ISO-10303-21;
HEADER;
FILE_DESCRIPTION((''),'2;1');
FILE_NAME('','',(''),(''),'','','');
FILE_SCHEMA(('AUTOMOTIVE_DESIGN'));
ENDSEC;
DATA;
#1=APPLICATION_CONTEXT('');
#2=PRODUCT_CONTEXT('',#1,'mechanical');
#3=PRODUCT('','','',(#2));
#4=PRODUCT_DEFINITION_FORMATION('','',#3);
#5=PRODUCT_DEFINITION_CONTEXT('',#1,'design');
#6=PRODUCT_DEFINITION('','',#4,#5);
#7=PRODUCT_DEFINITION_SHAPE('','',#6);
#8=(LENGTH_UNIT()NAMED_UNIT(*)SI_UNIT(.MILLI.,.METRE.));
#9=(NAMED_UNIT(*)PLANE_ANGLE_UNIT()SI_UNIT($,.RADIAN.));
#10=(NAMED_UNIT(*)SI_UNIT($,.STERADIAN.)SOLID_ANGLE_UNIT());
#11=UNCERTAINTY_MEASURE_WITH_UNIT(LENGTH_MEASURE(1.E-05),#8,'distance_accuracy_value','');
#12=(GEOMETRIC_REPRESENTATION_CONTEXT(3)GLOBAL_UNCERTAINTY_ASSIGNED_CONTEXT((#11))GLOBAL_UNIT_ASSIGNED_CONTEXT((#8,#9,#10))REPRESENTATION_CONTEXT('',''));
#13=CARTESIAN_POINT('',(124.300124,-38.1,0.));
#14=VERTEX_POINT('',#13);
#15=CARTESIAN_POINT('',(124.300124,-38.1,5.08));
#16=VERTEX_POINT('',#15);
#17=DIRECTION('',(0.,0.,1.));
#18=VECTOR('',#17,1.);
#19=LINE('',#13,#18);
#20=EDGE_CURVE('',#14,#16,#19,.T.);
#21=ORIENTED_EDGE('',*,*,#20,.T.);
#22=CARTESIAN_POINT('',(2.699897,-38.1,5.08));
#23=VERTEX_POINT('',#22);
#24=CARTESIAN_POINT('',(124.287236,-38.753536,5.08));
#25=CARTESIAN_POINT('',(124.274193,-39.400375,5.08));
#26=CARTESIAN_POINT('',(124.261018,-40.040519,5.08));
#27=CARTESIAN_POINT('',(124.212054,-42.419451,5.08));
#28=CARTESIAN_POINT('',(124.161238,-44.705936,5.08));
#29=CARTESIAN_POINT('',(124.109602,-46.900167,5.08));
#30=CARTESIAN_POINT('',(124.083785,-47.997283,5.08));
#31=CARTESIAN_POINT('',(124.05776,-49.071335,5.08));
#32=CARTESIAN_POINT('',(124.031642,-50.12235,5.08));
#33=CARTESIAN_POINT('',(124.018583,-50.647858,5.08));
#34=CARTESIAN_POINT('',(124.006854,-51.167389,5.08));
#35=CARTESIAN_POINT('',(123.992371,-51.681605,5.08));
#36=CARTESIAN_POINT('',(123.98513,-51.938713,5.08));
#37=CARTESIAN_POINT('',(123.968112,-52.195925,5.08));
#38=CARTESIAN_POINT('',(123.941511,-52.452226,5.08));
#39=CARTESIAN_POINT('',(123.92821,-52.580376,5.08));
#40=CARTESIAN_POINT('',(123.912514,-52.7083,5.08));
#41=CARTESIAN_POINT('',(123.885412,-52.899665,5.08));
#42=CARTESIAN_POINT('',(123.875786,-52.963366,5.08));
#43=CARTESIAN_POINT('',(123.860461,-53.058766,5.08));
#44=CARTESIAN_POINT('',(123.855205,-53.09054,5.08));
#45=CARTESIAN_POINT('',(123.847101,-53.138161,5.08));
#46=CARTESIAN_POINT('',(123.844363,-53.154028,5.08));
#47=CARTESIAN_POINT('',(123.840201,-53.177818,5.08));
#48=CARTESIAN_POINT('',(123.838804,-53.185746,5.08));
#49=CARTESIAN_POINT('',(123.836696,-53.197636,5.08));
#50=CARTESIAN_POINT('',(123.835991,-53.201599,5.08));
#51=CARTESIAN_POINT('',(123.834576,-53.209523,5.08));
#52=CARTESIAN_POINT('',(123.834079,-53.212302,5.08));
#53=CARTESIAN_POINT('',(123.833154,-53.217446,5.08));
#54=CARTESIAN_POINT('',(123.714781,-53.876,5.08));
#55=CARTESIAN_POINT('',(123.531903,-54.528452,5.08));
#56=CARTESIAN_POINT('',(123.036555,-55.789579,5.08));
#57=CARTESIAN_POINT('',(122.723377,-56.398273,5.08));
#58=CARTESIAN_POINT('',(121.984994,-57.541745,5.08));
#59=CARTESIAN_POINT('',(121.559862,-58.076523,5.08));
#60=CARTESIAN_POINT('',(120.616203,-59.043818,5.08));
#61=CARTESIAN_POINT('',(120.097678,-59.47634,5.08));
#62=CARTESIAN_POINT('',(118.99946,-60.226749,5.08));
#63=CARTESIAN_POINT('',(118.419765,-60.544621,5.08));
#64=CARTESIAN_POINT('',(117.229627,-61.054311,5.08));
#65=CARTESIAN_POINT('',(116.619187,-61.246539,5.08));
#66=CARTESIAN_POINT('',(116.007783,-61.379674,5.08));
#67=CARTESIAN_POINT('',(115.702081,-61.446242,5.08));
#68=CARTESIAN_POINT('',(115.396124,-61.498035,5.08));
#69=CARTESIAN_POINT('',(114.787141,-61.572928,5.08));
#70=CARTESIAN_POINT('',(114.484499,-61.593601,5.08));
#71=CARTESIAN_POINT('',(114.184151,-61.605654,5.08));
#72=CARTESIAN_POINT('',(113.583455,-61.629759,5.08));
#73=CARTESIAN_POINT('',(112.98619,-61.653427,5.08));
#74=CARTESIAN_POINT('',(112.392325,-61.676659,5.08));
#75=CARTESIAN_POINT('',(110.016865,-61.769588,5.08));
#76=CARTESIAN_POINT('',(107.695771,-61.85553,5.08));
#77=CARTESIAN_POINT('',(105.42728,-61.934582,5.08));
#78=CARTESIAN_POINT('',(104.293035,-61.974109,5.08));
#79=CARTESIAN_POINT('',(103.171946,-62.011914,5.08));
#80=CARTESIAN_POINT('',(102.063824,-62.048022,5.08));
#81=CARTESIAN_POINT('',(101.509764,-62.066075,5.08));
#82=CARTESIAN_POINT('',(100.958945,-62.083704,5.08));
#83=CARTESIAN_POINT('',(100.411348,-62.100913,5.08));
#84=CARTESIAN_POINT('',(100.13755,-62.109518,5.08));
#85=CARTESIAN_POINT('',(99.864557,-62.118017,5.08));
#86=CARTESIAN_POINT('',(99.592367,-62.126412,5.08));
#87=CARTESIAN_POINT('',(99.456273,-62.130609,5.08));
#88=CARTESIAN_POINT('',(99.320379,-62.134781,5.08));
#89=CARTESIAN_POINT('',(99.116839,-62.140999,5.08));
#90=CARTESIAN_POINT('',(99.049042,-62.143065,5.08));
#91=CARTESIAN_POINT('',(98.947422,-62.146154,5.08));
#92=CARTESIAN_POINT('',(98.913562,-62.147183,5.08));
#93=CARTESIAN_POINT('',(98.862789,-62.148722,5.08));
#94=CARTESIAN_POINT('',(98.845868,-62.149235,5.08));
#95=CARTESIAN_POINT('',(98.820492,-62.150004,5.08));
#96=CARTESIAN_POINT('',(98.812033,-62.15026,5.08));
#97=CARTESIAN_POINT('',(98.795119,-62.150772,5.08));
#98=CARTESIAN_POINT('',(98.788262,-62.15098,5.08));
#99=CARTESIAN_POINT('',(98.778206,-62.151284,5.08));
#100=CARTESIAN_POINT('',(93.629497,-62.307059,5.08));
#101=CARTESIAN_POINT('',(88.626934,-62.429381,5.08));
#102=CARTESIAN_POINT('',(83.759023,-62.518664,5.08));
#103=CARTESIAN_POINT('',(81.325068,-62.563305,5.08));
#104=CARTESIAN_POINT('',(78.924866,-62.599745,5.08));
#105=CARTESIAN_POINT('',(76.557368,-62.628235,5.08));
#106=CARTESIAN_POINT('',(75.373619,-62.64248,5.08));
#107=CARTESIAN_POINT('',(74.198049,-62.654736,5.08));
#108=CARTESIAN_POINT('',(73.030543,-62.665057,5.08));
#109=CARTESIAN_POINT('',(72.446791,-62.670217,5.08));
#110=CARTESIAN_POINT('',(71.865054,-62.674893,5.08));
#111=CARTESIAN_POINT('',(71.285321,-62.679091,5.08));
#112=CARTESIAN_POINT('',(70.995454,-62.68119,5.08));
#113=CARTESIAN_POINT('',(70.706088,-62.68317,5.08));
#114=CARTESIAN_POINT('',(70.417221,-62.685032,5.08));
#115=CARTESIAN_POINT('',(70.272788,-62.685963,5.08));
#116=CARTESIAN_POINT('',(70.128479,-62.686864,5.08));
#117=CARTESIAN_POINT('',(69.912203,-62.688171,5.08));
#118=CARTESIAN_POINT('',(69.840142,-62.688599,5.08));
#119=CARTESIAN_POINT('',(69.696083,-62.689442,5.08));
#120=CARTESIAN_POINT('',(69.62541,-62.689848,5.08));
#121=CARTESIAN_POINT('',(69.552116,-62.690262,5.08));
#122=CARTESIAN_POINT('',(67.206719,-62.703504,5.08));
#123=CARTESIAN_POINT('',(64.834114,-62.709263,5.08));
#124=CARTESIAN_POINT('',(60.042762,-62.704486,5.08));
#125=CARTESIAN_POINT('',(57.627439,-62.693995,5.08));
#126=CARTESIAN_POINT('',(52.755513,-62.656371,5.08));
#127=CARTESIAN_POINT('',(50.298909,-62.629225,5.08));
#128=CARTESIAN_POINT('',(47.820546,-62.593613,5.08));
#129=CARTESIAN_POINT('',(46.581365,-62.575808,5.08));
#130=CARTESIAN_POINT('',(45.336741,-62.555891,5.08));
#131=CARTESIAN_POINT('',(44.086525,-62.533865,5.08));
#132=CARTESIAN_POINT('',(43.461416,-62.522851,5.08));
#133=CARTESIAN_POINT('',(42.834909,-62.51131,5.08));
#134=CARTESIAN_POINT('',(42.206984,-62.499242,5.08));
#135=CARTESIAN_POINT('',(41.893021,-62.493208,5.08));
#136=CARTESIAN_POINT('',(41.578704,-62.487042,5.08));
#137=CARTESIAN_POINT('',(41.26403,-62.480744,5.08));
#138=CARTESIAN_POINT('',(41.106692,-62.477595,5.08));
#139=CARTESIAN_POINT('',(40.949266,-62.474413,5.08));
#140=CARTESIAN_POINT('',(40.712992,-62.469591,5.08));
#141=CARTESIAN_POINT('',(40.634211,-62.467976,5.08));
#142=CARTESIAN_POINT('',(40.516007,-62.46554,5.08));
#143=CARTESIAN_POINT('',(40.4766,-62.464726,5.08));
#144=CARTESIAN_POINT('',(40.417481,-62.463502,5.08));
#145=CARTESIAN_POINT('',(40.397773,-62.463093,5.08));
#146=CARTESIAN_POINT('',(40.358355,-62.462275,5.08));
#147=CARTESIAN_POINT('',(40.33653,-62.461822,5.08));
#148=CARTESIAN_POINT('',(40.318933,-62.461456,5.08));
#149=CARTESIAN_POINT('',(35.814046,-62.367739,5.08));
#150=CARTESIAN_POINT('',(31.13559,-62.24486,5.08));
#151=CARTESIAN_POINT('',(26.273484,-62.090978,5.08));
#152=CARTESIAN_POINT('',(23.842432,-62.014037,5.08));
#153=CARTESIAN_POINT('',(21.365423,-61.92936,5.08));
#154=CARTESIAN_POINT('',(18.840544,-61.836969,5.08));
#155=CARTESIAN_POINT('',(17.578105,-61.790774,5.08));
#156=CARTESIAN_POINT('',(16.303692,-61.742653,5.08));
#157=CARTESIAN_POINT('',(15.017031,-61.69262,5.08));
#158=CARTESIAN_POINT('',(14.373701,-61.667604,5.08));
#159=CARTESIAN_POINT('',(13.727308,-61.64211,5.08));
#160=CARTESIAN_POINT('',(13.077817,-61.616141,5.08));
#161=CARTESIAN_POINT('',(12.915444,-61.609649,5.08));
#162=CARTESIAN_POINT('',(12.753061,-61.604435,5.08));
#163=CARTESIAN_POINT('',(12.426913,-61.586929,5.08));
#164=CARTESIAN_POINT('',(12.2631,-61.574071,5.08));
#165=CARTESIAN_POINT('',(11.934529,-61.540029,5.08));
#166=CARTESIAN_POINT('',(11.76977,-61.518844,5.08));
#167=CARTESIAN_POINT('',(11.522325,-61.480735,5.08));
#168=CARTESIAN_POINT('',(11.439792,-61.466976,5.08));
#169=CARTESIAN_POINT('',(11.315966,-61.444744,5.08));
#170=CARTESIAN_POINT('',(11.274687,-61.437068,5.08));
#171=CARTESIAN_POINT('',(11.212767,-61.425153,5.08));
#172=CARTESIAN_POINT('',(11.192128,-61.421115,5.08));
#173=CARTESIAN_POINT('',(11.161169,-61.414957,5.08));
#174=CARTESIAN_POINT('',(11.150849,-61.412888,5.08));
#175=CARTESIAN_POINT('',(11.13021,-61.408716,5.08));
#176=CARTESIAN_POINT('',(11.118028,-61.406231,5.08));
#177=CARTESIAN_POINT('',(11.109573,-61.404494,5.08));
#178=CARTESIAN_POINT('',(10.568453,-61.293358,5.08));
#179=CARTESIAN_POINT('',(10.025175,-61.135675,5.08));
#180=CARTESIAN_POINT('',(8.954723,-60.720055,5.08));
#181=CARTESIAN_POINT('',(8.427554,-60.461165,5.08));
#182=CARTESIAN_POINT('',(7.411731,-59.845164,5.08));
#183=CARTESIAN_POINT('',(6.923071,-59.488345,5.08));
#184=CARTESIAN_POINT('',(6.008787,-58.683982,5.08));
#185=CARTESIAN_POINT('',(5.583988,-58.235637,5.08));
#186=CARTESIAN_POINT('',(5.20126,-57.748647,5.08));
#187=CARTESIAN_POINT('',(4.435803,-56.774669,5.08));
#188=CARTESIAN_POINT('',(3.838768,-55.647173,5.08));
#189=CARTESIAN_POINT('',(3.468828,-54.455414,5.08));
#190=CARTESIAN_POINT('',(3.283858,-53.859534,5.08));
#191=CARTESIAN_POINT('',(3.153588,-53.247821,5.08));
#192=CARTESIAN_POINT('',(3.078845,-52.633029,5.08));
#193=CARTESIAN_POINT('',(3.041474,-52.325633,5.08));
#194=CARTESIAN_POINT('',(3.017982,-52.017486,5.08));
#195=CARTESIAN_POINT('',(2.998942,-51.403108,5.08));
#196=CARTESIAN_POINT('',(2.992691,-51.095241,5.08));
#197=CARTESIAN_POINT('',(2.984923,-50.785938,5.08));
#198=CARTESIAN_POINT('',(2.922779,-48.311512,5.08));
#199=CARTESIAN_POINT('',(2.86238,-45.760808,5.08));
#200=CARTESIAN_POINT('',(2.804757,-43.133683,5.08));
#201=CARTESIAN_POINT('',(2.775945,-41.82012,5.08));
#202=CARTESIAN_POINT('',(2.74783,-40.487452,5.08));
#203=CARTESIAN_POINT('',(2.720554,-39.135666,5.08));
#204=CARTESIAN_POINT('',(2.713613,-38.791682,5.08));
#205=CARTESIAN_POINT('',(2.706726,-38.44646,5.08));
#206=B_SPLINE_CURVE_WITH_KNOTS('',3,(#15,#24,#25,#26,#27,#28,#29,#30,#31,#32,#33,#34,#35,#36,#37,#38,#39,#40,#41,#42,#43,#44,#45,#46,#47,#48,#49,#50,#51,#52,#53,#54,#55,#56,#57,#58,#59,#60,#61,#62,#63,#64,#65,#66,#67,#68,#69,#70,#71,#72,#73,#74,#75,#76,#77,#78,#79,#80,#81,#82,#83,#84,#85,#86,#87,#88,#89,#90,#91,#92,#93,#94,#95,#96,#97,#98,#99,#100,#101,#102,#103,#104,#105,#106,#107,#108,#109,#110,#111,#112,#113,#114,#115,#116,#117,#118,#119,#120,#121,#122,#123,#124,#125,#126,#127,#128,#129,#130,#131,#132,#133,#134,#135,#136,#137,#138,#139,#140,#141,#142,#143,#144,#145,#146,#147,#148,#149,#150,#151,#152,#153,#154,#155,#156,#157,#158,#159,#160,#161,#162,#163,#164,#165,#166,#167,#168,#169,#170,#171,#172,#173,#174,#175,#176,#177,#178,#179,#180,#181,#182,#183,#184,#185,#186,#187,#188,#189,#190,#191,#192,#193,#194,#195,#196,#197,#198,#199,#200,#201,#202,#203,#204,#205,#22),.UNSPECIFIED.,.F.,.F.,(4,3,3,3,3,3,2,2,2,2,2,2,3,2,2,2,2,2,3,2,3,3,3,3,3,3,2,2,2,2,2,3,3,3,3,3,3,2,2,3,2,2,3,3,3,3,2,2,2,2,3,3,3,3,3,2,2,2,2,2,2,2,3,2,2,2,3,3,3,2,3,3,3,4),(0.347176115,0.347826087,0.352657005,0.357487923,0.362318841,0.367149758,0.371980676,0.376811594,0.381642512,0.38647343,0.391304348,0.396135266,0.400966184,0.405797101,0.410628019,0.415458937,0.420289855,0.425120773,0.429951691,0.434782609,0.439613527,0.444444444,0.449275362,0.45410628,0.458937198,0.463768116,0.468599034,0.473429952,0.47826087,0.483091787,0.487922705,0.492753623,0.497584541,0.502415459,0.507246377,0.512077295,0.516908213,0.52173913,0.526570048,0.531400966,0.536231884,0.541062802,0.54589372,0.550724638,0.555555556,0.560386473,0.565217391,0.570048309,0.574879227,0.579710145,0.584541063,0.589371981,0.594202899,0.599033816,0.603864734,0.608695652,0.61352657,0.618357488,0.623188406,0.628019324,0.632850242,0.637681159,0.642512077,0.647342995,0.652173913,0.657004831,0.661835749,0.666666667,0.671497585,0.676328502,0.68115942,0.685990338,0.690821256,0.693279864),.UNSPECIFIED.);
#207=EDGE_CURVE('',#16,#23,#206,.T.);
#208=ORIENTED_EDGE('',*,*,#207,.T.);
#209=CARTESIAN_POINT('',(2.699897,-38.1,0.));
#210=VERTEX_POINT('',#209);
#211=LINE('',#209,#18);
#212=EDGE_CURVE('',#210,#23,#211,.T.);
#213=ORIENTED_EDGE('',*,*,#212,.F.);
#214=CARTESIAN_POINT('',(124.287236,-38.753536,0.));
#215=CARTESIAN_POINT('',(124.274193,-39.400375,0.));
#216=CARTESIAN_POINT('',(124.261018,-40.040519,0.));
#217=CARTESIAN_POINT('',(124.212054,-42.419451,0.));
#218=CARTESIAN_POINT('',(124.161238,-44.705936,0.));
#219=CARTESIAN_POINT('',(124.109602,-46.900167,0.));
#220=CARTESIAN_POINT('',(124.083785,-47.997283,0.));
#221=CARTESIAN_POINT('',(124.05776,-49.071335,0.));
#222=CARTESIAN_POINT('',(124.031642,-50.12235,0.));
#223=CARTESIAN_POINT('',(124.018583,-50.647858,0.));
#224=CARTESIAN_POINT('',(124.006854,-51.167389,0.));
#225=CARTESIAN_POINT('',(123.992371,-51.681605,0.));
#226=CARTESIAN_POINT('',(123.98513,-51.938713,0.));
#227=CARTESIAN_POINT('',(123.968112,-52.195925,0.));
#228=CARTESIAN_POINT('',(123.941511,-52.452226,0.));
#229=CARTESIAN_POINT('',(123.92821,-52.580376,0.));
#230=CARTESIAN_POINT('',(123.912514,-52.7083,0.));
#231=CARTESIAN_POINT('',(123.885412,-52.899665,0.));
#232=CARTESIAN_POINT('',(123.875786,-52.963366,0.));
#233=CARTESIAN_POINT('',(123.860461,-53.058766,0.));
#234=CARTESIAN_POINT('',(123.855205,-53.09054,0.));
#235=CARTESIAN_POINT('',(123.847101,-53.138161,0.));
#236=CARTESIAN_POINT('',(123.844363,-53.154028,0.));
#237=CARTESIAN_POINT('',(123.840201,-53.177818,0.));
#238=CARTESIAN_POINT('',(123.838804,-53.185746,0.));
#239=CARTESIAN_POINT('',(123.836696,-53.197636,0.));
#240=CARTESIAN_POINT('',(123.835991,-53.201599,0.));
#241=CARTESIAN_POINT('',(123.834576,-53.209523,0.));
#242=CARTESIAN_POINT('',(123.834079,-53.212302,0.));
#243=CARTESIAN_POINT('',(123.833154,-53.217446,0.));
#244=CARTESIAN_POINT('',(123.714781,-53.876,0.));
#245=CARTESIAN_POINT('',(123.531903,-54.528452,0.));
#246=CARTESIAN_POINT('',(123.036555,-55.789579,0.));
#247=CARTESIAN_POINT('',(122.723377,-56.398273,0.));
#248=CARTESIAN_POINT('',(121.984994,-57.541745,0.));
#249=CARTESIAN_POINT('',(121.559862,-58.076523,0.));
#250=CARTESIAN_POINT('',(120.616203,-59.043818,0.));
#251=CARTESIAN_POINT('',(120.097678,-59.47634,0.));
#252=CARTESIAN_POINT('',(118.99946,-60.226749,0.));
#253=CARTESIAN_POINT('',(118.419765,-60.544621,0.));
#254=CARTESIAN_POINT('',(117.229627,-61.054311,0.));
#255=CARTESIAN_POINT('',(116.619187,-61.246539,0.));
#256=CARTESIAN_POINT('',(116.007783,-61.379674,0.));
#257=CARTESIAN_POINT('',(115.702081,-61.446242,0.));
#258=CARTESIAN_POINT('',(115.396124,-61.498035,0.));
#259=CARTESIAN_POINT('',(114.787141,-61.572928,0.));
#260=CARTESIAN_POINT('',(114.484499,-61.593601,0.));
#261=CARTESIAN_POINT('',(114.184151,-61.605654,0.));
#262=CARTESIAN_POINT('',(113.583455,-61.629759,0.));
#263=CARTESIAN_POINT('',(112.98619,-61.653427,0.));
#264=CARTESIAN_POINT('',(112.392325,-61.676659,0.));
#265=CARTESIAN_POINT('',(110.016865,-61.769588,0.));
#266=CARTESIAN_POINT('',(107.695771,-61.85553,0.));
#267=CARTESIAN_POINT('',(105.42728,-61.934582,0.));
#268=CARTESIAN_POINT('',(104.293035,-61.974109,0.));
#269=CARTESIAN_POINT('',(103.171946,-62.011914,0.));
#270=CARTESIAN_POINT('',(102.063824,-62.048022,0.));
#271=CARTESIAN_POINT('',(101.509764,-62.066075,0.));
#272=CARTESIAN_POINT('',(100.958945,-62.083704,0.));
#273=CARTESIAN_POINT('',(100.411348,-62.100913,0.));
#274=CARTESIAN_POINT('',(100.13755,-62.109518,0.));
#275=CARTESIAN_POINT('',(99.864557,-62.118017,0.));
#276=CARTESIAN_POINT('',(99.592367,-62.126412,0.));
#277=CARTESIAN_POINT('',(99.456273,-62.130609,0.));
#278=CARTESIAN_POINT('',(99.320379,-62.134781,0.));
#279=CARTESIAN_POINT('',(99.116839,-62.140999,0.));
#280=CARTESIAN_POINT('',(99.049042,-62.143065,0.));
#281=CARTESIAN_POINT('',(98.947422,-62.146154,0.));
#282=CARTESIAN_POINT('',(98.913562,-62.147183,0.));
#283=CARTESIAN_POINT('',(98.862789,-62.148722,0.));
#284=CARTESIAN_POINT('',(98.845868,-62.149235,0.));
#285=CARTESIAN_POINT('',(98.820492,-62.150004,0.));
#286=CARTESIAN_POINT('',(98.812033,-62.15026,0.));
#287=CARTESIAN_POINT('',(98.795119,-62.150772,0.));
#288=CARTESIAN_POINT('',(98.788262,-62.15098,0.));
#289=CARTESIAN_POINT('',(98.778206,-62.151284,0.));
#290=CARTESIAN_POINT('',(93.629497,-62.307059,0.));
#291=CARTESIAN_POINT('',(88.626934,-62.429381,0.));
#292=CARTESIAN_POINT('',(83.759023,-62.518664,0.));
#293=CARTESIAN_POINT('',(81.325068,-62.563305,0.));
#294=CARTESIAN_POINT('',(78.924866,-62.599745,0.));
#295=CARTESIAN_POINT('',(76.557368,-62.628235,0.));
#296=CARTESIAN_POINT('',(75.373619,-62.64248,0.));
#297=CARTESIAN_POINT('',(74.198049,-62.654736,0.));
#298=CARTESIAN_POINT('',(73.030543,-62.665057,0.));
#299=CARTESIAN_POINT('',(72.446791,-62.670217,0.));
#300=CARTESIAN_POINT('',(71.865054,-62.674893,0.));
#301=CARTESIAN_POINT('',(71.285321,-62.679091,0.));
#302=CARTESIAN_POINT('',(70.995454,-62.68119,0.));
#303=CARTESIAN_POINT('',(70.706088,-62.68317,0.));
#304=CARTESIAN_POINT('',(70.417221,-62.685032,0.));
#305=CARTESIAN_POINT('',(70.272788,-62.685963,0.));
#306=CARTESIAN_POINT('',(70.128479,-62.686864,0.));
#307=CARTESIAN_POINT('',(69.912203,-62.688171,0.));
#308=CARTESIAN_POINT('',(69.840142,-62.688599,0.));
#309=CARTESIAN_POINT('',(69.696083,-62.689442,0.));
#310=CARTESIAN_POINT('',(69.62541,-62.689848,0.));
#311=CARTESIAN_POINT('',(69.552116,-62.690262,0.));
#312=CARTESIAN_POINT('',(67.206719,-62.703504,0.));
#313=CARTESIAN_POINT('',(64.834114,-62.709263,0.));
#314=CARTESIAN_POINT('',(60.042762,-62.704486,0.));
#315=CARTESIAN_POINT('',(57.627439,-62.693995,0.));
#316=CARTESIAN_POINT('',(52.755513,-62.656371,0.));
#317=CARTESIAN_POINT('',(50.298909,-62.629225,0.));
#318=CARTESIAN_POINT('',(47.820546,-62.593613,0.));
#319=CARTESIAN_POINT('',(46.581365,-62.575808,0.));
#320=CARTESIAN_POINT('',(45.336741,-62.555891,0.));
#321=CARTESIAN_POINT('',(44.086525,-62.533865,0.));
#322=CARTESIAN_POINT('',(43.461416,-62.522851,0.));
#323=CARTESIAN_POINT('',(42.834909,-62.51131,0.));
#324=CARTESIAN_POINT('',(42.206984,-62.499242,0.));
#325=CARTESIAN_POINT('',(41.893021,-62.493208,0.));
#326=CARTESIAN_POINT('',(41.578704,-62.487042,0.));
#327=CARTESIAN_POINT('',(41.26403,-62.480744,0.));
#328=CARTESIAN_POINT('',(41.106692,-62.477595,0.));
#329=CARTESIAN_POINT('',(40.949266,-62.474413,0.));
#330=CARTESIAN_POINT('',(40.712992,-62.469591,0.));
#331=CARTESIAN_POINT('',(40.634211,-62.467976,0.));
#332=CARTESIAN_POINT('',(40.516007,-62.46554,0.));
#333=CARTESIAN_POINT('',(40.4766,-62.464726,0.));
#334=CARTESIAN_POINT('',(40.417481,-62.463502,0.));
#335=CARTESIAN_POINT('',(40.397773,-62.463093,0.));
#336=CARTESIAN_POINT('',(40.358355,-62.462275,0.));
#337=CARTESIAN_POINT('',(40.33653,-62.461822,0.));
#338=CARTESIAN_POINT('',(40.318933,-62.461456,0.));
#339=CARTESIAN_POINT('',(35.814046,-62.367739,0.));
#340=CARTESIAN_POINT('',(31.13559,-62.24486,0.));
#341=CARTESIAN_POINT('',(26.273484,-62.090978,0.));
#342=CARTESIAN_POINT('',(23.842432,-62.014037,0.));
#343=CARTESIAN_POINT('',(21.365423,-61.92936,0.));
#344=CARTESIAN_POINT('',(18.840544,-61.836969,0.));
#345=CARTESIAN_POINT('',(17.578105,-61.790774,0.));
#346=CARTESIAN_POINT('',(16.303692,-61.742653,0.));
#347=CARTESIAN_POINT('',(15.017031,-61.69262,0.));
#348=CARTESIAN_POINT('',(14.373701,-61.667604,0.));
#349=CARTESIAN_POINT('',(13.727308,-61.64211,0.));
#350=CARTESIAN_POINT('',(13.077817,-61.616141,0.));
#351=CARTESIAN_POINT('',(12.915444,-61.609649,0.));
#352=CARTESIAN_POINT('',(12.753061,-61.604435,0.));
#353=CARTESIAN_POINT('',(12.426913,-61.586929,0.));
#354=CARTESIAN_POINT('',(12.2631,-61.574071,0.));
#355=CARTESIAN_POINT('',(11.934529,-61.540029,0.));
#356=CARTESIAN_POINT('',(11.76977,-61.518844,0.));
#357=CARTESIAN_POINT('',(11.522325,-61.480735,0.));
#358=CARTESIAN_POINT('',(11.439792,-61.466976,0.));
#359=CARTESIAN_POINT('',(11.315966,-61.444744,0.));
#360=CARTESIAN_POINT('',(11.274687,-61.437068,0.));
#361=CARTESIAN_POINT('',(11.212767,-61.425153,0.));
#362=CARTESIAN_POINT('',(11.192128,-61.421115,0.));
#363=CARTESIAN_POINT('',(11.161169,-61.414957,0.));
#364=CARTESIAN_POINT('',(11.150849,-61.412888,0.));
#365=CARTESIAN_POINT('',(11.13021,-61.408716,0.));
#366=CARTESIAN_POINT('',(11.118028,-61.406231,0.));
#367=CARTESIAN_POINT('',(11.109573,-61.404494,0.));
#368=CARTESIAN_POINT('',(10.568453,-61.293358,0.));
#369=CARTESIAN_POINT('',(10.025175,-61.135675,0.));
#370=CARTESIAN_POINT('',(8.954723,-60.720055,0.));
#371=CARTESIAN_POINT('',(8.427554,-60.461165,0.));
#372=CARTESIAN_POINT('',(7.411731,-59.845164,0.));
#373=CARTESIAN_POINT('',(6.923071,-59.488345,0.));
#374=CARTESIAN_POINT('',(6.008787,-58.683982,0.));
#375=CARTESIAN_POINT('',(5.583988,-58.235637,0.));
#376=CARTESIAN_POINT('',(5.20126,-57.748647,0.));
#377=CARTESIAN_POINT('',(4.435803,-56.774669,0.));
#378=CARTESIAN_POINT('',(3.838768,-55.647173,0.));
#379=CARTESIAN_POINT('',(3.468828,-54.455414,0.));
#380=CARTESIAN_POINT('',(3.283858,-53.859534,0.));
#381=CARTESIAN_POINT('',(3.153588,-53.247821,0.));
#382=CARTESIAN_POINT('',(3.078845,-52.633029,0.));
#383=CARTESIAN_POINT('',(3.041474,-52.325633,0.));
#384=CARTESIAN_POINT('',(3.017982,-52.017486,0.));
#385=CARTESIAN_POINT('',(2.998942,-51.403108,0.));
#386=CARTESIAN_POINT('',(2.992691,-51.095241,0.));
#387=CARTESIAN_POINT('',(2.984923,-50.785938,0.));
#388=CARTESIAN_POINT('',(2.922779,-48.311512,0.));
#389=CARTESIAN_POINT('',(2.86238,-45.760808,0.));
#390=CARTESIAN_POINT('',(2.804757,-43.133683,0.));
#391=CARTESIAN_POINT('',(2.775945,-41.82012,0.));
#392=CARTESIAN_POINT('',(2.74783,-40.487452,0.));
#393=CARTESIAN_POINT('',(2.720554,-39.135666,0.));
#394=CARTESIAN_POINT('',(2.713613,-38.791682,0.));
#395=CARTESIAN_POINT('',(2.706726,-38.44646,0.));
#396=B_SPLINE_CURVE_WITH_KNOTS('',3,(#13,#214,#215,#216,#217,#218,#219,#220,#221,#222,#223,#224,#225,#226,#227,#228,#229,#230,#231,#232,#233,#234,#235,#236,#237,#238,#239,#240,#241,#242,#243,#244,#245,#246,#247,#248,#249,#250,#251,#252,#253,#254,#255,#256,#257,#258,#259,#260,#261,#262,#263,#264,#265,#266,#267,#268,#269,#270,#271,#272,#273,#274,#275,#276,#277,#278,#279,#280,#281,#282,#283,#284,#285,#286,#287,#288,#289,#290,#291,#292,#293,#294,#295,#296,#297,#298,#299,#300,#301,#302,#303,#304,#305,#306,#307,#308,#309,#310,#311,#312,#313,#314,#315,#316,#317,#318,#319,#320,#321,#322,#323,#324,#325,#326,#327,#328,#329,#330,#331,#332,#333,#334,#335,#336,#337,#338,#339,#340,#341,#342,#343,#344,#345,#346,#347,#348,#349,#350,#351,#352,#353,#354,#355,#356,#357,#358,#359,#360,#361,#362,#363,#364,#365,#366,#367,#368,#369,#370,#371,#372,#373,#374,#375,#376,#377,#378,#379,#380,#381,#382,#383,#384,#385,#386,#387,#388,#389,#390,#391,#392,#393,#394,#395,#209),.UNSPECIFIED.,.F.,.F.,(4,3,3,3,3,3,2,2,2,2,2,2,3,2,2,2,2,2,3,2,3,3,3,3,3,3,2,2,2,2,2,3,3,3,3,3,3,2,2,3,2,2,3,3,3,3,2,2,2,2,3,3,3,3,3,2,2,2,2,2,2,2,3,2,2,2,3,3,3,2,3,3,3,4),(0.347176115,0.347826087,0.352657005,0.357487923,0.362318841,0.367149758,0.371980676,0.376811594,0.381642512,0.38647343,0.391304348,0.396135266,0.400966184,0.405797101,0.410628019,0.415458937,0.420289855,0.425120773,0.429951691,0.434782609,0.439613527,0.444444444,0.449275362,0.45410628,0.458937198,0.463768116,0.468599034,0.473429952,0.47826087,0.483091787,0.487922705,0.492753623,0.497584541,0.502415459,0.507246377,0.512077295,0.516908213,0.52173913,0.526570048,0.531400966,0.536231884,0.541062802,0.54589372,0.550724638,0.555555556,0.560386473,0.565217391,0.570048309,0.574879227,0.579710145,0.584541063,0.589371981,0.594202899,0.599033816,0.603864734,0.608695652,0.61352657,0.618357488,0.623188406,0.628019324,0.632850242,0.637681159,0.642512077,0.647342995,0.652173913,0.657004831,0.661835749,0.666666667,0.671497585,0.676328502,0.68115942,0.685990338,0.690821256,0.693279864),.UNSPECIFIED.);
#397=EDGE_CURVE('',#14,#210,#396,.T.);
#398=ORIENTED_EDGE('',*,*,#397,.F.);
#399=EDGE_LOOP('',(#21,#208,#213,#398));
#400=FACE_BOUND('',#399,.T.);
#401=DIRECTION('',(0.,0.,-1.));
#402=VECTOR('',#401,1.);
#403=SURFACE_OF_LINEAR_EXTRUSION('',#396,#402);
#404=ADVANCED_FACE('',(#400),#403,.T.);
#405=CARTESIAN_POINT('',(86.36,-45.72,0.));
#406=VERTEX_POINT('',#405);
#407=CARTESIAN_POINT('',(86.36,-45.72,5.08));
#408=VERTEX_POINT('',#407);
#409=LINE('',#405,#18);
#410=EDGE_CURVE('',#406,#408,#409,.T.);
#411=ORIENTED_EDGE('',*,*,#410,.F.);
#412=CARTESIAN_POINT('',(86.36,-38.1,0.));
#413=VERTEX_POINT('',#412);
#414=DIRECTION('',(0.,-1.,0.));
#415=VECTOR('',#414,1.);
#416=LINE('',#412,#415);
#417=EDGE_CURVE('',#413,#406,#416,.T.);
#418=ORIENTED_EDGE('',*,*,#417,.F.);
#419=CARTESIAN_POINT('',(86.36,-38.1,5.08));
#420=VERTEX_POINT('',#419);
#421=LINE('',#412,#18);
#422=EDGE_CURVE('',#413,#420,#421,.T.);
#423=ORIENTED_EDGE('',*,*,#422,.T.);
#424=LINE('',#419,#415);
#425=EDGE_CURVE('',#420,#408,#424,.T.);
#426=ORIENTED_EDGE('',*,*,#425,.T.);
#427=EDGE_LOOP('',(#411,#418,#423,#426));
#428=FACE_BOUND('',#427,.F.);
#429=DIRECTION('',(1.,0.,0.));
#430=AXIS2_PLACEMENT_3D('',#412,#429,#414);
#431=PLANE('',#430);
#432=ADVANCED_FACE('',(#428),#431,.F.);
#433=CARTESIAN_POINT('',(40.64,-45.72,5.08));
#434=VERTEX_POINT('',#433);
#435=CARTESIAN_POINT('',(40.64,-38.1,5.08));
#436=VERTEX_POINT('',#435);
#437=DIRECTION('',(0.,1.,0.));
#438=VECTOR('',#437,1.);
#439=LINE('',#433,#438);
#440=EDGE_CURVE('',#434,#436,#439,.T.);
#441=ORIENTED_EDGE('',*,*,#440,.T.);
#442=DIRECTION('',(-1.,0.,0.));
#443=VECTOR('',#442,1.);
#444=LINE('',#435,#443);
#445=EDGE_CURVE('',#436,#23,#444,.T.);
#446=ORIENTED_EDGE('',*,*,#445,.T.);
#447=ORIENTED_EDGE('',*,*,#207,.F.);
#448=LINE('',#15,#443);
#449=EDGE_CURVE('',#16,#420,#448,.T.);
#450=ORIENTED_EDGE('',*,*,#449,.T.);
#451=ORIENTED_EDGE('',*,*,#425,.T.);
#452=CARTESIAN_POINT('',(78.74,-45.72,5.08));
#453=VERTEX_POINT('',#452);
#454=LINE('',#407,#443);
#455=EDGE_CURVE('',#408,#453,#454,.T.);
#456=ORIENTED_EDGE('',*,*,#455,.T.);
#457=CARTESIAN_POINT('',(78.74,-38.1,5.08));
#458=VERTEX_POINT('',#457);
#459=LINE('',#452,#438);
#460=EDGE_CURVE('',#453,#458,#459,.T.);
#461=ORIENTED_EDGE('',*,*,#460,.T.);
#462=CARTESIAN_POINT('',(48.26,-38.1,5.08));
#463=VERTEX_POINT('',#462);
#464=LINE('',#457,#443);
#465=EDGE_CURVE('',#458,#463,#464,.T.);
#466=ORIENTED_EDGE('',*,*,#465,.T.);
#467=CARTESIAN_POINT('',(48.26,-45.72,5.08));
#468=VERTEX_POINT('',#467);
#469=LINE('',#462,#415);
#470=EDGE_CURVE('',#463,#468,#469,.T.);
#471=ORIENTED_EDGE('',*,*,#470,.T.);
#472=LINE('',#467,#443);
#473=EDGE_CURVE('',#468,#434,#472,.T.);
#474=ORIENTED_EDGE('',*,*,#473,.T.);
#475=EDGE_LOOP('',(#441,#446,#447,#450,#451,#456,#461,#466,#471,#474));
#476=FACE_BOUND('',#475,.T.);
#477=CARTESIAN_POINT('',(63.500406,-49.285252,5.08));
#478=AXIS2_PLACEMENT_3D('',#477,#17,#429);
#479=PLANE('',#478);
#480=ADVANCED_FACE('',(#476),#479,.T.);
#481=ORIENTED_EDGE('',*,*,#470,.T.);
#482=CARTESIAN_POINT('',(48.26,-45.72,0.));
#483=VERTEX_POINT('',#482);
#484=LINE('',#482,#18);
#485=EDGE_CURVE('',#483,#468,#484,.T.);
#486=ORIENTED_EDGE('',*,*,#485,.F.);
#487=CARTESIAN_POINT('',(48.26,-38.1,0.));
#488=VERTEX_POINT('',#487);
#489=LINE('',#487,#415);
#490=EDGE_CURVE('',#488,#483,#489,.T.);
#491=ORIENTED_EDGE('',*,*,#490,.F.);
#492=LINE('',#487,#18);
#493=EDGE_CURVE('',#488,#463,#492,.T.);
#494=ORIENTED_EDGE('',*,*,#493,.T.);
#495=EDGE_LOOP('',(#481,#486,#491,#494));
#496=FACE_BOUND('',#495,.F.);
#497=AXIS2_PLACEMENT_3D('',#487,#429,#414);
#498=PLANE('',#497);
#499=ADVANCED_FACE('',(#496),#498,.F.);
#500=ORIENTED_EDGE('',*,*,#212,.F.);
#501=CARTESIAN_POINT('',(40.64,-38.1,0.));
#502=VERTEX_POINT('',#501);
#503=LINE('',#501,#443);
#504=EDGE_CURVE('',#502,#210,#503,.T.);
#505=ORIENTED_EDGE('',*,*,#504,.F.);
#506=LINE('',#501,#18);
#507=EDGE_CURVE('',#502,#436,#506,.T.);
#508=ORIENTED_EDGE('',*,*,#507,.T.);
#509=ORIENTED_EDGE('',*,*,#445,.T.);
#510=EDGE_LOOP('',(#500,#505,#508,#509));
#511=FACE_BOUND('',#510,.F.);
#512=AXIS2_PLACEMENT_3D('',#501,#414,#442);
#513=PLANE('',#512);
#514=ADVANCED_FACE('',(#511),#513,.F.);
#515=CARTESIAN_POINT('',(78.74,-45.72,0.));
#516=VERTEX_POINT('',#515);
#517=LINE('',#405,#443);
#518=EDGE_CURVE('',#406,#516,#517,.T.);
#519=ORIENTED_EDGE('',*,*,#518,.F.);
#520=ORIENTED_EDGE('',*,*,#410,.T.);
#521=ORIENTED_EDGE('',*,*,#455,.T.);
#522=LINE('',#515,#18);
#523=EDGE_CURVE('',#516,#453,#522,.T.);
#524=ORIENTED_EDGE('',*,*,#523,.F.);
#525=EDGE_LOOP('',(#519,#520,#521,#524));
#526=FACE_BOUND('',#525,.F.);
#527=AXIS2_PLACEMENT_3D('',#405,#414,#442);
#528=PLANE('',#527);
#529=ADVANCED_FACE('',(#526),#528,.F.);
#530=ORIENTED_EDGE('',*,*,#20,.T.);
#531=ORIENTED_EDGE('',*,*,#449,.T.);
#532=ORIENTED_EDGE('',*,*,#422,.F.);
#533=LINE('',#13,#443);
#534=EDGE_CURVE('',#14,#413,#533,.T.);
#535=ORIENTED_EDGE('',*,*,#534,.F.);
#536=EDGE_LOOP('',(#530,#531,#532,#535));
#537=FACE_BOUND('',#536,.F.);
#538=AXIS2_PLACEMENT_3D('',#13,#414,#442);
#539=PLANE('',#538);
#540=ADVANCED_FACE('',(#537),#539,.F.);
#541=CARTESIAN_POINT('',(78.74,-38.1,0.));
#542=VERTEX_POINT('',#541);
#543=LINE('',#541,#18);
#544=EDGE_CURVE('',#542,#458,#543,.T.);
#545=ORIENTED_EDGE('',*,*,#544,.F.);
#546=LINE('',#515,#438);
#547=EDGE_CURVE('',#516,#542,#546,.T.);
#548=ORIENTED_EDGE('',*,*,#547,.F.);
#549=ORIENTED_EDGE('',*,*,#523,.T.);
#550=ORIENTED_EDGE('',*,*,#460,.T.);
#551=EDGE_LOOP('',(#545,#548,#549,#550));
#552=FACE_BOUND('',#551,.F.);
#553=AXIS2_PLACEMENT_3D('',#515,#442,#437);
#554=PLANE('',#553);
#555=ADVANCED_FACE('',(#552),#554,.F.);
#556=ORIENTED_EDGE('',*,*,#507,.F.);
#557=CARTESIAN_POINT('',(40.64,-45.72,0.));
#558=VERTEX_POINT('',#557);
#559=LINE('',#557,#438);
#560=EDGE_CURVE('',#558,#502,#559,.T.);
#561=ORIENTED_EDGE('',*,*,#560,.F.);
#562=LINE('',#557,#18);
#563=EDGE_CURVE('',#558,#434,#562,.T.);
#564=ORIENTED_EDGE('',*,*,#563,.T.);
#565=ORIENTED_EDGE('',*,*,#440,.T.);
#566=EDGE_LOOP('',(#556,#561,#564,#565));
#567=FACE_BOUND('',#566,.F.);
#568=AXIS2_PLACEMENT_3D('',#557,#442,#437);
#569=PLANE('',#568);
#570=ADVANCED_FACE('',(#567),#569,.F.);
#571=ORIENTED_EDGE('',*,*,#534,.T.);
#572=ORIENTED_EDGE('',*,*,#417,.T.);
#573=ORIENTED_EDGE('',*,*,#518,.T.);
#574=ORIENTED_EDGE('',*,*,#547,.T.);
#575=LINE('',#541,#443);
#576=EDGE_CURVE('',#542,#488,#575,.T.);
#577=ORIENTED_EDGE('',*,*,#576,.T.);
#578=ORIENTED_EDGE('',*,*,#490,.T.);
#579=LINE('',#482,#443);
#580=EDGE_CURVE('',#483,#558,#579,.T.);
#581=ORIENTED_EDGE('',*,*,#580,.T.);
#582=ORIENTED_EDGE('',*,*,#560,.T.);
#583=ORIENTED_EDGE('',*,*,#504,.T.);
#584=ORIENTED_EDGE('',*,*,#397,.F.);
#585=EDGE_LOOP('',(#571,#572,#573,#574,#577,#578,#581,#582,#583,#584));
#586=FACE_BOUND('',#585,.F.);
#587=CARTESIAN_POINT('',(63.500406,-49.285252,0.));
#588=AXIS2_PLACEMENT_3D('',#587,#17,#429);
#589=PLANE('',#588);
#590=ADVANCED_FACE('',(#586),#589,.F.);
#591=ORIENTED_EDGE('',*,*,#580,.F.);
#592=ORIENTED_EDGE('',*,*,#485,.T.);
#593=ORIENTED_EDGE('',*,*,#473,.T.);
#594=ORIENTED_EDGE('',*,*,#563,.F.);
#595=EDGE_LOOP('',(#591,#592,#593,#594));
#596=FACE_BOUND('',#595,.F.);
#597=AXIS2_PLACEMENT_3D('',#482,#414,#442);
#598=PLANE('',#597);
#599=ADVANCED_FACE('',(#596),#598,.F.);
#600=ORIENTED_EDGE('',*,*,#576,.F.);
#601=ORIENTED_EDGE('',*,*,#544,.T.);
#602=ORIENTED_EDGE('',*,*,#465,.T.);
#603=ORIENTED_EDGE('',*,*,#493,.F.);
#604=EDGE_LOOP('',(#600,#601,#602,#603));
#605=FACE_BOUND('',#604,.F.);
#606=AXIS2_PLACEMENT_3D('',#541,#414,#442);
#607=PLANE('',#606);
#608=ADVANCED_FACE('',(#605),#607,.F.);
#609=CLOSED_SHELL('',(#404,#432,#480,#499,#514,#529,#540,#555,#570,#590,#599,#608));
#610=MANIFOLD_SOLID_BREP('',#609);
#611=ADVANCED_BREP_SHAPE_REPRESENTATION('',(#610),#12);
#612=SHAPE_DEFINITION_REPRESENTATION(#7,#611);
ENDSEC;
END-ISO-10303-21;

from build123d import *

# Parameters (mm, degrees)
BOSS_EXTRUDE1_DEPTH = 5.08


with BuildPart() as part:
    # Sketch1 → Boss-Extrude1 (new body)
    with BuildSketch(Plane.XY):
        with BuildLine():
            Line((40.64, -38.1), (2.699896737, -38.1))
            add(Edge.make_bspline(
                [(124.300123963, -38.1), (124.287236378, -38.753536376), (124.274193084, -39.400375447), (124.261017522, -40.040518664), (124.212053837, -42.419451058), (124.161237565, -44.705936197), (124.109602291, -46.90016707), (124.083784653, -47.997282506), (124.057759681, -49.071334776), (124.03164179, -50.122350094), (124.018582844, -50.647857753), (124.00685427, -51.167389184), (123.992371149, -51.681604769), (123.985129589, -51.938712561), (123.968112085, -52.19592455), (123.941510909, -52.452225629), (123.928210321, -52.580376168), (123.912513899, -52.708300014), (123.885412302, -52.899664601), (123.875785614, -52.963365996), (123.860460992, -53.058765812), (123.855205353, -53.090540374), (123.847101331, -53.13816143), (123.84436323, -53.154028317), (123.84020101, -53.177818113), (123.838804426, -53.18574629), (123.836695791, -53.197635878), (123.83599062, -53.201598628), (123.834575693, -53.209523229), (123.834078677, -53.212301526), (123.83315389, -53.217446479), (123.714781185, -53.876000446), (123.531903392, -54.528452396), (123.036555362, -55.789579355), (122.723377399, -56.398272756), (121.98499373, -57.541744747), (121.559861933, -58.076523122), (120.616202925, -59.043818357), (120.097678269, -59.476339969), (118.999459827, -60.226749088), (118.419764547, -60.544621041), (117.229627485, -61.054311169), (116.619187477, -61.246539051), (116.007782981, -61.379674402), (115.702080733, -61.446242077), (115.396123747, -61.498034695), (114.787140539, -61.572928101), (114.484498501, -61.593601496), (114.184150678, -61.605653891), (113.583455031, -61.629758681), (112.986190205, -61.653427009), (112.392325067, -61.676659229), (110.016864517, -61.769588106), (107.695771112, -61.855530159), (105.427280343, -61.934582469), (104.293034959, -61.974108623), (103.171945824, -62.011914166), (102.063824351, -62.048021597), (101.509763614, -62.066075313), (100.958944745, -62.083704438), (100.41134798, -62.100913262), (100.137549597, -62.109517674), (99.864556799, -62.118017035), (99.592367287, -62.126411943), (99.456272531, -62.130609397), (99.320378597, -62.134780738), (99.116838507, -62.140998696), (99.049041946, -62.143064839), (98.947422255, -62.146154305), (98.913561549, -62.147182502), (98.862789273, -62.148722363), (98.845868311, -62.149235243), (98.820491562, -62.150003956), (98.812033428, -62.150260092), (98.795118725, -62.150772162), (98.788262443, -62.150979678), (98.778206369, -62.151283927), (93.629496513, -62.307059391), (88.626933593, -62.429381017), (83.759023305, -62.518663556), (81.325068161, -62.563304825), (78.924865761, -62.59974537), (76.557367753, -62.628234842), (75.373618748, -62.642479578), (74.198048907, -62.654736356), (73.030543438, -62.665056512), (72.446790703, -62.67021659), (71.865054235, -62.674892584), (71.285320713, -62.679091174), (70.995453953, -62.68119047), (70.706087939, -62.683170416), (70.417221071, -62.685031861), (70.272787638, -62.685962583), (70.128478991, -62.686863681), (69.912202906, -62.688171049), (69.840142026, -62.688599459), (69.696082512, -62.689441546), (69.625410024, -62.689847736), (69.552116344, -62.690261548), (67.20671857, -62.70350353), (64.834114379, -62.709263058), (60.042762202, -62.70448621), (57.627439102, -62.693994984), (52.755512824, -62.656371126), (50.298909301, -62.629224585), (47.820546129, -62.593613245), (46.581364543, -62.575807575), (45.336741314, -62.555891423), (44.086524502, -62.533864622), (43.461416096, -62.522851222), (42.834909159, -62.511310213), (42.206983866, -62.4992419), (41.893021219, -62.493207744), (41.578703975, -62.487041765), (41.264029603, -62.480744023), (41.106692417, -62.477595152), (40.949265948, -62.47441334), (40.712991841, -62.469591224), (40.634211405, -62.467975619), (40.51600709, -62.465539864), (40.476600041, -62.464725887), (40.417481045, -62.463501836), (40.397773309, -62.463093304), (40.358355029, -62.462275212), (40.336529749, -62.461821658), (40.318932534, -62.461455577), (35.814045676, -62.367738784), (31.135589788, -62.244860451), (26.273484312, -62.090978142), (23.842431574, -62.014036987), (21.36542288, -61.929359948), (18.840543979, -61.836969352), (17.578104528, -61.790774054), (16.303691519, -61.742652555), (15.017030975, -61.692619983), (14.373700703, -61.667603697), (13.727308185, -61.642109771), (13.077816954, -61.616140875), (12.915444146, -61.609648651), (12.753061313, -61.604435176), (12.426912804, -61.586929426), (12.263100353, -61.574071405), (11.934529022, -61.54002886), (11.769770141, -61.518844336), (11.522324561, -61.480734819), (11.439791544, -61.466976184), (11.315966083, -61.444743991), (11.27468661, -61.437067552), (11.212767302, -61.425152949), (11.192127516, -61.421114756), (11.161168613, -61.414957308), (11.150849107, -61.412888132), (11.130210488, -61.408716364), (11.118027517, -61.406230969), (11.109572524, -61.404494459), (10.568452961, -61.293357841), (10.025174669, -61.13567514), (8.95472284, -60.72005469), (8.427554014, -60.461164804), (7.411730862, -59.845164203), (6.923071248, -59.488345338), (6.008787131, -58.683982358), (5.583987845, -58.235636732), (5.201259624, -57.748647381), (4.435803181, -56.77466868), (3.83876838, -55.647173162), (3.468827937, -54.455413744), (3.283857716, -53.859534035), (3.153587759, -53.247820747), (3.078845154, -52.633028911), (3.041473851, -52.325632993), (3.017982452, -52.017486164), (2.998942487, -51.403108157), (2.992690852, -51.095241056), (2.984922881, -50.785937836), (2.922779114, -48.31151208), (2.862379731, -45.760807851), (2.804756722, -43.133682501), (2.775945218, -41.820119825), (2.747830008, -40.487452377), (2.720553795, -39.13566552), (2.713612928, -38.791681775), (2.70672648, -38.446459959), (2.699896737, -38.1)],
                knots=[0.347176115, 0.347176115, 0.347176115, 0.347176115, 0.347826087, 0.347826087, 0.347826087, 0.352657005, 0.352657005, 0.352657005, 0.357487923, 0.357487923, 0.357487923, 0.362318841, 0.362318841, 0.362318841, 0.367149758, 0.367149758, 0.367149758, 0.371980676, 0.371980676, 0.376811594, 0.376811594, 0.381642512, 0.381642512, 0.38647343, 0.38647343, 0.391304348, 0.391304348, 0.396135266, 0.396135266, 0.400966184, 0.400966184, 0.400966184, 0.405797101, 0.405797101, 0.410628019, 0.410628019, 0.415458937, 0.415458937, 0.420289855, 0.420289855, 0.425120773, 0.425120773, 0.429951691, 0.429951691, 0.429951691, 0.434782609, 0.434782609, 0.439613527, 0.439613527, 0.439613527, 0.444444444, 0.444444444, 0.444444444, 0.449275362, 0.449275362, 0.449275362, 0.45410628, 0.45410628, 0.45410628, 0.458937198, 0.458937198, 0.458937198, 0.463768116, 0.463768116, 0.463768116, 0.468599034, 0.468599034, 0.473429952, 0.473429952, 0.47826087, 0.47826087, 0.483091787, 0.483091787, 0.487922705, 0.487922705, 0.492753623, 0.492753623, 0.492753623, 0.497584541, 0.497584541, 0.497584541, 0.502415459, 0.502415459, 0.502415459, 0.507246377, 0.507246377, 0.507246377, 0.512077295, 0.512077295, 0.512077295, 0.516908213, 0.516908213, 0.516908213, 0.52173913, 0.52173913, 0.526570048, 0.526570048, 0.531400966, 0.531400966, 0.531400966, 0.536231884, 0.536231884, 0.541062802, 0.541062802, 0.54589372, 0.54589372, 0.54589372, 0.550724638, 0.550724638, 0.550724638, 0.555555556, 0.555555556, 0.555555556, 0.560386473, 0.560386473, 0.560386473, 0.565217391, 0.565217391, 0.570048309, 0.570048309, 0.574879227, 0.574879227, 0.579710145, 0.579710145, 0.584541063, 0.584541063, 0.584541063, 0.589371981, 0.589371981, 0.589371981, 0.594202899, 0.594202899, 0.594202899, 0.599033816, 0.599033816, 0.599033816, 0.603864734, 0.603864734, 0.603864734, 0.608695652, 0.608695652, 0.61352657, 0.61352657, 0.618357488, 0.618357488, 0.623188406, 0.623188406, 0.628019324, 0.628019324, 0.632850242, 0.632850242, 0.637681159, 0.637681159, 0.642512077, 0.642512077, 0.642512077, 0.647342995, 0.647342995, 0.652173913, 0.652173913, 0.657004831, 0.657004831, 0.661835749, 0.661835749, 0.661835749, 0.666666667, 0.666666667, 0.666666667, 0.671497585, 0.671497585, 0.671497585, 0.676328502, 0.676328502, 0.68115942, 0.68115942, 0.68115942, 0.685990338, 0.685990338, 0.685990338, 0.690821256, 0.690821256, 0.690821256, 0.693279864, 0.693279864, 0.693279864, 0.693279864], degree=3))
            Line((124.300123963, -38.1), (86.36, -38.1))
            Line((86.36, -38.1), (86.36, -45.72))
            Line((86.36, -45.72), (78.74, -45.72))
            Line((78.74, -45.72), (78.74, -38.1))
            Line((78.74, -38.1), (48.26, -38.1))
            Line((48.26, -38.1), (48.26, -45.72))
            Line((48.26, -45.72), (40.64, -45.72))
            Line((40.64, -45.72), (40.64, -38.1))
        make_face()
    extrude(amount=BOSS_EXTRUDE1_DEPTH)


solid = part.part
